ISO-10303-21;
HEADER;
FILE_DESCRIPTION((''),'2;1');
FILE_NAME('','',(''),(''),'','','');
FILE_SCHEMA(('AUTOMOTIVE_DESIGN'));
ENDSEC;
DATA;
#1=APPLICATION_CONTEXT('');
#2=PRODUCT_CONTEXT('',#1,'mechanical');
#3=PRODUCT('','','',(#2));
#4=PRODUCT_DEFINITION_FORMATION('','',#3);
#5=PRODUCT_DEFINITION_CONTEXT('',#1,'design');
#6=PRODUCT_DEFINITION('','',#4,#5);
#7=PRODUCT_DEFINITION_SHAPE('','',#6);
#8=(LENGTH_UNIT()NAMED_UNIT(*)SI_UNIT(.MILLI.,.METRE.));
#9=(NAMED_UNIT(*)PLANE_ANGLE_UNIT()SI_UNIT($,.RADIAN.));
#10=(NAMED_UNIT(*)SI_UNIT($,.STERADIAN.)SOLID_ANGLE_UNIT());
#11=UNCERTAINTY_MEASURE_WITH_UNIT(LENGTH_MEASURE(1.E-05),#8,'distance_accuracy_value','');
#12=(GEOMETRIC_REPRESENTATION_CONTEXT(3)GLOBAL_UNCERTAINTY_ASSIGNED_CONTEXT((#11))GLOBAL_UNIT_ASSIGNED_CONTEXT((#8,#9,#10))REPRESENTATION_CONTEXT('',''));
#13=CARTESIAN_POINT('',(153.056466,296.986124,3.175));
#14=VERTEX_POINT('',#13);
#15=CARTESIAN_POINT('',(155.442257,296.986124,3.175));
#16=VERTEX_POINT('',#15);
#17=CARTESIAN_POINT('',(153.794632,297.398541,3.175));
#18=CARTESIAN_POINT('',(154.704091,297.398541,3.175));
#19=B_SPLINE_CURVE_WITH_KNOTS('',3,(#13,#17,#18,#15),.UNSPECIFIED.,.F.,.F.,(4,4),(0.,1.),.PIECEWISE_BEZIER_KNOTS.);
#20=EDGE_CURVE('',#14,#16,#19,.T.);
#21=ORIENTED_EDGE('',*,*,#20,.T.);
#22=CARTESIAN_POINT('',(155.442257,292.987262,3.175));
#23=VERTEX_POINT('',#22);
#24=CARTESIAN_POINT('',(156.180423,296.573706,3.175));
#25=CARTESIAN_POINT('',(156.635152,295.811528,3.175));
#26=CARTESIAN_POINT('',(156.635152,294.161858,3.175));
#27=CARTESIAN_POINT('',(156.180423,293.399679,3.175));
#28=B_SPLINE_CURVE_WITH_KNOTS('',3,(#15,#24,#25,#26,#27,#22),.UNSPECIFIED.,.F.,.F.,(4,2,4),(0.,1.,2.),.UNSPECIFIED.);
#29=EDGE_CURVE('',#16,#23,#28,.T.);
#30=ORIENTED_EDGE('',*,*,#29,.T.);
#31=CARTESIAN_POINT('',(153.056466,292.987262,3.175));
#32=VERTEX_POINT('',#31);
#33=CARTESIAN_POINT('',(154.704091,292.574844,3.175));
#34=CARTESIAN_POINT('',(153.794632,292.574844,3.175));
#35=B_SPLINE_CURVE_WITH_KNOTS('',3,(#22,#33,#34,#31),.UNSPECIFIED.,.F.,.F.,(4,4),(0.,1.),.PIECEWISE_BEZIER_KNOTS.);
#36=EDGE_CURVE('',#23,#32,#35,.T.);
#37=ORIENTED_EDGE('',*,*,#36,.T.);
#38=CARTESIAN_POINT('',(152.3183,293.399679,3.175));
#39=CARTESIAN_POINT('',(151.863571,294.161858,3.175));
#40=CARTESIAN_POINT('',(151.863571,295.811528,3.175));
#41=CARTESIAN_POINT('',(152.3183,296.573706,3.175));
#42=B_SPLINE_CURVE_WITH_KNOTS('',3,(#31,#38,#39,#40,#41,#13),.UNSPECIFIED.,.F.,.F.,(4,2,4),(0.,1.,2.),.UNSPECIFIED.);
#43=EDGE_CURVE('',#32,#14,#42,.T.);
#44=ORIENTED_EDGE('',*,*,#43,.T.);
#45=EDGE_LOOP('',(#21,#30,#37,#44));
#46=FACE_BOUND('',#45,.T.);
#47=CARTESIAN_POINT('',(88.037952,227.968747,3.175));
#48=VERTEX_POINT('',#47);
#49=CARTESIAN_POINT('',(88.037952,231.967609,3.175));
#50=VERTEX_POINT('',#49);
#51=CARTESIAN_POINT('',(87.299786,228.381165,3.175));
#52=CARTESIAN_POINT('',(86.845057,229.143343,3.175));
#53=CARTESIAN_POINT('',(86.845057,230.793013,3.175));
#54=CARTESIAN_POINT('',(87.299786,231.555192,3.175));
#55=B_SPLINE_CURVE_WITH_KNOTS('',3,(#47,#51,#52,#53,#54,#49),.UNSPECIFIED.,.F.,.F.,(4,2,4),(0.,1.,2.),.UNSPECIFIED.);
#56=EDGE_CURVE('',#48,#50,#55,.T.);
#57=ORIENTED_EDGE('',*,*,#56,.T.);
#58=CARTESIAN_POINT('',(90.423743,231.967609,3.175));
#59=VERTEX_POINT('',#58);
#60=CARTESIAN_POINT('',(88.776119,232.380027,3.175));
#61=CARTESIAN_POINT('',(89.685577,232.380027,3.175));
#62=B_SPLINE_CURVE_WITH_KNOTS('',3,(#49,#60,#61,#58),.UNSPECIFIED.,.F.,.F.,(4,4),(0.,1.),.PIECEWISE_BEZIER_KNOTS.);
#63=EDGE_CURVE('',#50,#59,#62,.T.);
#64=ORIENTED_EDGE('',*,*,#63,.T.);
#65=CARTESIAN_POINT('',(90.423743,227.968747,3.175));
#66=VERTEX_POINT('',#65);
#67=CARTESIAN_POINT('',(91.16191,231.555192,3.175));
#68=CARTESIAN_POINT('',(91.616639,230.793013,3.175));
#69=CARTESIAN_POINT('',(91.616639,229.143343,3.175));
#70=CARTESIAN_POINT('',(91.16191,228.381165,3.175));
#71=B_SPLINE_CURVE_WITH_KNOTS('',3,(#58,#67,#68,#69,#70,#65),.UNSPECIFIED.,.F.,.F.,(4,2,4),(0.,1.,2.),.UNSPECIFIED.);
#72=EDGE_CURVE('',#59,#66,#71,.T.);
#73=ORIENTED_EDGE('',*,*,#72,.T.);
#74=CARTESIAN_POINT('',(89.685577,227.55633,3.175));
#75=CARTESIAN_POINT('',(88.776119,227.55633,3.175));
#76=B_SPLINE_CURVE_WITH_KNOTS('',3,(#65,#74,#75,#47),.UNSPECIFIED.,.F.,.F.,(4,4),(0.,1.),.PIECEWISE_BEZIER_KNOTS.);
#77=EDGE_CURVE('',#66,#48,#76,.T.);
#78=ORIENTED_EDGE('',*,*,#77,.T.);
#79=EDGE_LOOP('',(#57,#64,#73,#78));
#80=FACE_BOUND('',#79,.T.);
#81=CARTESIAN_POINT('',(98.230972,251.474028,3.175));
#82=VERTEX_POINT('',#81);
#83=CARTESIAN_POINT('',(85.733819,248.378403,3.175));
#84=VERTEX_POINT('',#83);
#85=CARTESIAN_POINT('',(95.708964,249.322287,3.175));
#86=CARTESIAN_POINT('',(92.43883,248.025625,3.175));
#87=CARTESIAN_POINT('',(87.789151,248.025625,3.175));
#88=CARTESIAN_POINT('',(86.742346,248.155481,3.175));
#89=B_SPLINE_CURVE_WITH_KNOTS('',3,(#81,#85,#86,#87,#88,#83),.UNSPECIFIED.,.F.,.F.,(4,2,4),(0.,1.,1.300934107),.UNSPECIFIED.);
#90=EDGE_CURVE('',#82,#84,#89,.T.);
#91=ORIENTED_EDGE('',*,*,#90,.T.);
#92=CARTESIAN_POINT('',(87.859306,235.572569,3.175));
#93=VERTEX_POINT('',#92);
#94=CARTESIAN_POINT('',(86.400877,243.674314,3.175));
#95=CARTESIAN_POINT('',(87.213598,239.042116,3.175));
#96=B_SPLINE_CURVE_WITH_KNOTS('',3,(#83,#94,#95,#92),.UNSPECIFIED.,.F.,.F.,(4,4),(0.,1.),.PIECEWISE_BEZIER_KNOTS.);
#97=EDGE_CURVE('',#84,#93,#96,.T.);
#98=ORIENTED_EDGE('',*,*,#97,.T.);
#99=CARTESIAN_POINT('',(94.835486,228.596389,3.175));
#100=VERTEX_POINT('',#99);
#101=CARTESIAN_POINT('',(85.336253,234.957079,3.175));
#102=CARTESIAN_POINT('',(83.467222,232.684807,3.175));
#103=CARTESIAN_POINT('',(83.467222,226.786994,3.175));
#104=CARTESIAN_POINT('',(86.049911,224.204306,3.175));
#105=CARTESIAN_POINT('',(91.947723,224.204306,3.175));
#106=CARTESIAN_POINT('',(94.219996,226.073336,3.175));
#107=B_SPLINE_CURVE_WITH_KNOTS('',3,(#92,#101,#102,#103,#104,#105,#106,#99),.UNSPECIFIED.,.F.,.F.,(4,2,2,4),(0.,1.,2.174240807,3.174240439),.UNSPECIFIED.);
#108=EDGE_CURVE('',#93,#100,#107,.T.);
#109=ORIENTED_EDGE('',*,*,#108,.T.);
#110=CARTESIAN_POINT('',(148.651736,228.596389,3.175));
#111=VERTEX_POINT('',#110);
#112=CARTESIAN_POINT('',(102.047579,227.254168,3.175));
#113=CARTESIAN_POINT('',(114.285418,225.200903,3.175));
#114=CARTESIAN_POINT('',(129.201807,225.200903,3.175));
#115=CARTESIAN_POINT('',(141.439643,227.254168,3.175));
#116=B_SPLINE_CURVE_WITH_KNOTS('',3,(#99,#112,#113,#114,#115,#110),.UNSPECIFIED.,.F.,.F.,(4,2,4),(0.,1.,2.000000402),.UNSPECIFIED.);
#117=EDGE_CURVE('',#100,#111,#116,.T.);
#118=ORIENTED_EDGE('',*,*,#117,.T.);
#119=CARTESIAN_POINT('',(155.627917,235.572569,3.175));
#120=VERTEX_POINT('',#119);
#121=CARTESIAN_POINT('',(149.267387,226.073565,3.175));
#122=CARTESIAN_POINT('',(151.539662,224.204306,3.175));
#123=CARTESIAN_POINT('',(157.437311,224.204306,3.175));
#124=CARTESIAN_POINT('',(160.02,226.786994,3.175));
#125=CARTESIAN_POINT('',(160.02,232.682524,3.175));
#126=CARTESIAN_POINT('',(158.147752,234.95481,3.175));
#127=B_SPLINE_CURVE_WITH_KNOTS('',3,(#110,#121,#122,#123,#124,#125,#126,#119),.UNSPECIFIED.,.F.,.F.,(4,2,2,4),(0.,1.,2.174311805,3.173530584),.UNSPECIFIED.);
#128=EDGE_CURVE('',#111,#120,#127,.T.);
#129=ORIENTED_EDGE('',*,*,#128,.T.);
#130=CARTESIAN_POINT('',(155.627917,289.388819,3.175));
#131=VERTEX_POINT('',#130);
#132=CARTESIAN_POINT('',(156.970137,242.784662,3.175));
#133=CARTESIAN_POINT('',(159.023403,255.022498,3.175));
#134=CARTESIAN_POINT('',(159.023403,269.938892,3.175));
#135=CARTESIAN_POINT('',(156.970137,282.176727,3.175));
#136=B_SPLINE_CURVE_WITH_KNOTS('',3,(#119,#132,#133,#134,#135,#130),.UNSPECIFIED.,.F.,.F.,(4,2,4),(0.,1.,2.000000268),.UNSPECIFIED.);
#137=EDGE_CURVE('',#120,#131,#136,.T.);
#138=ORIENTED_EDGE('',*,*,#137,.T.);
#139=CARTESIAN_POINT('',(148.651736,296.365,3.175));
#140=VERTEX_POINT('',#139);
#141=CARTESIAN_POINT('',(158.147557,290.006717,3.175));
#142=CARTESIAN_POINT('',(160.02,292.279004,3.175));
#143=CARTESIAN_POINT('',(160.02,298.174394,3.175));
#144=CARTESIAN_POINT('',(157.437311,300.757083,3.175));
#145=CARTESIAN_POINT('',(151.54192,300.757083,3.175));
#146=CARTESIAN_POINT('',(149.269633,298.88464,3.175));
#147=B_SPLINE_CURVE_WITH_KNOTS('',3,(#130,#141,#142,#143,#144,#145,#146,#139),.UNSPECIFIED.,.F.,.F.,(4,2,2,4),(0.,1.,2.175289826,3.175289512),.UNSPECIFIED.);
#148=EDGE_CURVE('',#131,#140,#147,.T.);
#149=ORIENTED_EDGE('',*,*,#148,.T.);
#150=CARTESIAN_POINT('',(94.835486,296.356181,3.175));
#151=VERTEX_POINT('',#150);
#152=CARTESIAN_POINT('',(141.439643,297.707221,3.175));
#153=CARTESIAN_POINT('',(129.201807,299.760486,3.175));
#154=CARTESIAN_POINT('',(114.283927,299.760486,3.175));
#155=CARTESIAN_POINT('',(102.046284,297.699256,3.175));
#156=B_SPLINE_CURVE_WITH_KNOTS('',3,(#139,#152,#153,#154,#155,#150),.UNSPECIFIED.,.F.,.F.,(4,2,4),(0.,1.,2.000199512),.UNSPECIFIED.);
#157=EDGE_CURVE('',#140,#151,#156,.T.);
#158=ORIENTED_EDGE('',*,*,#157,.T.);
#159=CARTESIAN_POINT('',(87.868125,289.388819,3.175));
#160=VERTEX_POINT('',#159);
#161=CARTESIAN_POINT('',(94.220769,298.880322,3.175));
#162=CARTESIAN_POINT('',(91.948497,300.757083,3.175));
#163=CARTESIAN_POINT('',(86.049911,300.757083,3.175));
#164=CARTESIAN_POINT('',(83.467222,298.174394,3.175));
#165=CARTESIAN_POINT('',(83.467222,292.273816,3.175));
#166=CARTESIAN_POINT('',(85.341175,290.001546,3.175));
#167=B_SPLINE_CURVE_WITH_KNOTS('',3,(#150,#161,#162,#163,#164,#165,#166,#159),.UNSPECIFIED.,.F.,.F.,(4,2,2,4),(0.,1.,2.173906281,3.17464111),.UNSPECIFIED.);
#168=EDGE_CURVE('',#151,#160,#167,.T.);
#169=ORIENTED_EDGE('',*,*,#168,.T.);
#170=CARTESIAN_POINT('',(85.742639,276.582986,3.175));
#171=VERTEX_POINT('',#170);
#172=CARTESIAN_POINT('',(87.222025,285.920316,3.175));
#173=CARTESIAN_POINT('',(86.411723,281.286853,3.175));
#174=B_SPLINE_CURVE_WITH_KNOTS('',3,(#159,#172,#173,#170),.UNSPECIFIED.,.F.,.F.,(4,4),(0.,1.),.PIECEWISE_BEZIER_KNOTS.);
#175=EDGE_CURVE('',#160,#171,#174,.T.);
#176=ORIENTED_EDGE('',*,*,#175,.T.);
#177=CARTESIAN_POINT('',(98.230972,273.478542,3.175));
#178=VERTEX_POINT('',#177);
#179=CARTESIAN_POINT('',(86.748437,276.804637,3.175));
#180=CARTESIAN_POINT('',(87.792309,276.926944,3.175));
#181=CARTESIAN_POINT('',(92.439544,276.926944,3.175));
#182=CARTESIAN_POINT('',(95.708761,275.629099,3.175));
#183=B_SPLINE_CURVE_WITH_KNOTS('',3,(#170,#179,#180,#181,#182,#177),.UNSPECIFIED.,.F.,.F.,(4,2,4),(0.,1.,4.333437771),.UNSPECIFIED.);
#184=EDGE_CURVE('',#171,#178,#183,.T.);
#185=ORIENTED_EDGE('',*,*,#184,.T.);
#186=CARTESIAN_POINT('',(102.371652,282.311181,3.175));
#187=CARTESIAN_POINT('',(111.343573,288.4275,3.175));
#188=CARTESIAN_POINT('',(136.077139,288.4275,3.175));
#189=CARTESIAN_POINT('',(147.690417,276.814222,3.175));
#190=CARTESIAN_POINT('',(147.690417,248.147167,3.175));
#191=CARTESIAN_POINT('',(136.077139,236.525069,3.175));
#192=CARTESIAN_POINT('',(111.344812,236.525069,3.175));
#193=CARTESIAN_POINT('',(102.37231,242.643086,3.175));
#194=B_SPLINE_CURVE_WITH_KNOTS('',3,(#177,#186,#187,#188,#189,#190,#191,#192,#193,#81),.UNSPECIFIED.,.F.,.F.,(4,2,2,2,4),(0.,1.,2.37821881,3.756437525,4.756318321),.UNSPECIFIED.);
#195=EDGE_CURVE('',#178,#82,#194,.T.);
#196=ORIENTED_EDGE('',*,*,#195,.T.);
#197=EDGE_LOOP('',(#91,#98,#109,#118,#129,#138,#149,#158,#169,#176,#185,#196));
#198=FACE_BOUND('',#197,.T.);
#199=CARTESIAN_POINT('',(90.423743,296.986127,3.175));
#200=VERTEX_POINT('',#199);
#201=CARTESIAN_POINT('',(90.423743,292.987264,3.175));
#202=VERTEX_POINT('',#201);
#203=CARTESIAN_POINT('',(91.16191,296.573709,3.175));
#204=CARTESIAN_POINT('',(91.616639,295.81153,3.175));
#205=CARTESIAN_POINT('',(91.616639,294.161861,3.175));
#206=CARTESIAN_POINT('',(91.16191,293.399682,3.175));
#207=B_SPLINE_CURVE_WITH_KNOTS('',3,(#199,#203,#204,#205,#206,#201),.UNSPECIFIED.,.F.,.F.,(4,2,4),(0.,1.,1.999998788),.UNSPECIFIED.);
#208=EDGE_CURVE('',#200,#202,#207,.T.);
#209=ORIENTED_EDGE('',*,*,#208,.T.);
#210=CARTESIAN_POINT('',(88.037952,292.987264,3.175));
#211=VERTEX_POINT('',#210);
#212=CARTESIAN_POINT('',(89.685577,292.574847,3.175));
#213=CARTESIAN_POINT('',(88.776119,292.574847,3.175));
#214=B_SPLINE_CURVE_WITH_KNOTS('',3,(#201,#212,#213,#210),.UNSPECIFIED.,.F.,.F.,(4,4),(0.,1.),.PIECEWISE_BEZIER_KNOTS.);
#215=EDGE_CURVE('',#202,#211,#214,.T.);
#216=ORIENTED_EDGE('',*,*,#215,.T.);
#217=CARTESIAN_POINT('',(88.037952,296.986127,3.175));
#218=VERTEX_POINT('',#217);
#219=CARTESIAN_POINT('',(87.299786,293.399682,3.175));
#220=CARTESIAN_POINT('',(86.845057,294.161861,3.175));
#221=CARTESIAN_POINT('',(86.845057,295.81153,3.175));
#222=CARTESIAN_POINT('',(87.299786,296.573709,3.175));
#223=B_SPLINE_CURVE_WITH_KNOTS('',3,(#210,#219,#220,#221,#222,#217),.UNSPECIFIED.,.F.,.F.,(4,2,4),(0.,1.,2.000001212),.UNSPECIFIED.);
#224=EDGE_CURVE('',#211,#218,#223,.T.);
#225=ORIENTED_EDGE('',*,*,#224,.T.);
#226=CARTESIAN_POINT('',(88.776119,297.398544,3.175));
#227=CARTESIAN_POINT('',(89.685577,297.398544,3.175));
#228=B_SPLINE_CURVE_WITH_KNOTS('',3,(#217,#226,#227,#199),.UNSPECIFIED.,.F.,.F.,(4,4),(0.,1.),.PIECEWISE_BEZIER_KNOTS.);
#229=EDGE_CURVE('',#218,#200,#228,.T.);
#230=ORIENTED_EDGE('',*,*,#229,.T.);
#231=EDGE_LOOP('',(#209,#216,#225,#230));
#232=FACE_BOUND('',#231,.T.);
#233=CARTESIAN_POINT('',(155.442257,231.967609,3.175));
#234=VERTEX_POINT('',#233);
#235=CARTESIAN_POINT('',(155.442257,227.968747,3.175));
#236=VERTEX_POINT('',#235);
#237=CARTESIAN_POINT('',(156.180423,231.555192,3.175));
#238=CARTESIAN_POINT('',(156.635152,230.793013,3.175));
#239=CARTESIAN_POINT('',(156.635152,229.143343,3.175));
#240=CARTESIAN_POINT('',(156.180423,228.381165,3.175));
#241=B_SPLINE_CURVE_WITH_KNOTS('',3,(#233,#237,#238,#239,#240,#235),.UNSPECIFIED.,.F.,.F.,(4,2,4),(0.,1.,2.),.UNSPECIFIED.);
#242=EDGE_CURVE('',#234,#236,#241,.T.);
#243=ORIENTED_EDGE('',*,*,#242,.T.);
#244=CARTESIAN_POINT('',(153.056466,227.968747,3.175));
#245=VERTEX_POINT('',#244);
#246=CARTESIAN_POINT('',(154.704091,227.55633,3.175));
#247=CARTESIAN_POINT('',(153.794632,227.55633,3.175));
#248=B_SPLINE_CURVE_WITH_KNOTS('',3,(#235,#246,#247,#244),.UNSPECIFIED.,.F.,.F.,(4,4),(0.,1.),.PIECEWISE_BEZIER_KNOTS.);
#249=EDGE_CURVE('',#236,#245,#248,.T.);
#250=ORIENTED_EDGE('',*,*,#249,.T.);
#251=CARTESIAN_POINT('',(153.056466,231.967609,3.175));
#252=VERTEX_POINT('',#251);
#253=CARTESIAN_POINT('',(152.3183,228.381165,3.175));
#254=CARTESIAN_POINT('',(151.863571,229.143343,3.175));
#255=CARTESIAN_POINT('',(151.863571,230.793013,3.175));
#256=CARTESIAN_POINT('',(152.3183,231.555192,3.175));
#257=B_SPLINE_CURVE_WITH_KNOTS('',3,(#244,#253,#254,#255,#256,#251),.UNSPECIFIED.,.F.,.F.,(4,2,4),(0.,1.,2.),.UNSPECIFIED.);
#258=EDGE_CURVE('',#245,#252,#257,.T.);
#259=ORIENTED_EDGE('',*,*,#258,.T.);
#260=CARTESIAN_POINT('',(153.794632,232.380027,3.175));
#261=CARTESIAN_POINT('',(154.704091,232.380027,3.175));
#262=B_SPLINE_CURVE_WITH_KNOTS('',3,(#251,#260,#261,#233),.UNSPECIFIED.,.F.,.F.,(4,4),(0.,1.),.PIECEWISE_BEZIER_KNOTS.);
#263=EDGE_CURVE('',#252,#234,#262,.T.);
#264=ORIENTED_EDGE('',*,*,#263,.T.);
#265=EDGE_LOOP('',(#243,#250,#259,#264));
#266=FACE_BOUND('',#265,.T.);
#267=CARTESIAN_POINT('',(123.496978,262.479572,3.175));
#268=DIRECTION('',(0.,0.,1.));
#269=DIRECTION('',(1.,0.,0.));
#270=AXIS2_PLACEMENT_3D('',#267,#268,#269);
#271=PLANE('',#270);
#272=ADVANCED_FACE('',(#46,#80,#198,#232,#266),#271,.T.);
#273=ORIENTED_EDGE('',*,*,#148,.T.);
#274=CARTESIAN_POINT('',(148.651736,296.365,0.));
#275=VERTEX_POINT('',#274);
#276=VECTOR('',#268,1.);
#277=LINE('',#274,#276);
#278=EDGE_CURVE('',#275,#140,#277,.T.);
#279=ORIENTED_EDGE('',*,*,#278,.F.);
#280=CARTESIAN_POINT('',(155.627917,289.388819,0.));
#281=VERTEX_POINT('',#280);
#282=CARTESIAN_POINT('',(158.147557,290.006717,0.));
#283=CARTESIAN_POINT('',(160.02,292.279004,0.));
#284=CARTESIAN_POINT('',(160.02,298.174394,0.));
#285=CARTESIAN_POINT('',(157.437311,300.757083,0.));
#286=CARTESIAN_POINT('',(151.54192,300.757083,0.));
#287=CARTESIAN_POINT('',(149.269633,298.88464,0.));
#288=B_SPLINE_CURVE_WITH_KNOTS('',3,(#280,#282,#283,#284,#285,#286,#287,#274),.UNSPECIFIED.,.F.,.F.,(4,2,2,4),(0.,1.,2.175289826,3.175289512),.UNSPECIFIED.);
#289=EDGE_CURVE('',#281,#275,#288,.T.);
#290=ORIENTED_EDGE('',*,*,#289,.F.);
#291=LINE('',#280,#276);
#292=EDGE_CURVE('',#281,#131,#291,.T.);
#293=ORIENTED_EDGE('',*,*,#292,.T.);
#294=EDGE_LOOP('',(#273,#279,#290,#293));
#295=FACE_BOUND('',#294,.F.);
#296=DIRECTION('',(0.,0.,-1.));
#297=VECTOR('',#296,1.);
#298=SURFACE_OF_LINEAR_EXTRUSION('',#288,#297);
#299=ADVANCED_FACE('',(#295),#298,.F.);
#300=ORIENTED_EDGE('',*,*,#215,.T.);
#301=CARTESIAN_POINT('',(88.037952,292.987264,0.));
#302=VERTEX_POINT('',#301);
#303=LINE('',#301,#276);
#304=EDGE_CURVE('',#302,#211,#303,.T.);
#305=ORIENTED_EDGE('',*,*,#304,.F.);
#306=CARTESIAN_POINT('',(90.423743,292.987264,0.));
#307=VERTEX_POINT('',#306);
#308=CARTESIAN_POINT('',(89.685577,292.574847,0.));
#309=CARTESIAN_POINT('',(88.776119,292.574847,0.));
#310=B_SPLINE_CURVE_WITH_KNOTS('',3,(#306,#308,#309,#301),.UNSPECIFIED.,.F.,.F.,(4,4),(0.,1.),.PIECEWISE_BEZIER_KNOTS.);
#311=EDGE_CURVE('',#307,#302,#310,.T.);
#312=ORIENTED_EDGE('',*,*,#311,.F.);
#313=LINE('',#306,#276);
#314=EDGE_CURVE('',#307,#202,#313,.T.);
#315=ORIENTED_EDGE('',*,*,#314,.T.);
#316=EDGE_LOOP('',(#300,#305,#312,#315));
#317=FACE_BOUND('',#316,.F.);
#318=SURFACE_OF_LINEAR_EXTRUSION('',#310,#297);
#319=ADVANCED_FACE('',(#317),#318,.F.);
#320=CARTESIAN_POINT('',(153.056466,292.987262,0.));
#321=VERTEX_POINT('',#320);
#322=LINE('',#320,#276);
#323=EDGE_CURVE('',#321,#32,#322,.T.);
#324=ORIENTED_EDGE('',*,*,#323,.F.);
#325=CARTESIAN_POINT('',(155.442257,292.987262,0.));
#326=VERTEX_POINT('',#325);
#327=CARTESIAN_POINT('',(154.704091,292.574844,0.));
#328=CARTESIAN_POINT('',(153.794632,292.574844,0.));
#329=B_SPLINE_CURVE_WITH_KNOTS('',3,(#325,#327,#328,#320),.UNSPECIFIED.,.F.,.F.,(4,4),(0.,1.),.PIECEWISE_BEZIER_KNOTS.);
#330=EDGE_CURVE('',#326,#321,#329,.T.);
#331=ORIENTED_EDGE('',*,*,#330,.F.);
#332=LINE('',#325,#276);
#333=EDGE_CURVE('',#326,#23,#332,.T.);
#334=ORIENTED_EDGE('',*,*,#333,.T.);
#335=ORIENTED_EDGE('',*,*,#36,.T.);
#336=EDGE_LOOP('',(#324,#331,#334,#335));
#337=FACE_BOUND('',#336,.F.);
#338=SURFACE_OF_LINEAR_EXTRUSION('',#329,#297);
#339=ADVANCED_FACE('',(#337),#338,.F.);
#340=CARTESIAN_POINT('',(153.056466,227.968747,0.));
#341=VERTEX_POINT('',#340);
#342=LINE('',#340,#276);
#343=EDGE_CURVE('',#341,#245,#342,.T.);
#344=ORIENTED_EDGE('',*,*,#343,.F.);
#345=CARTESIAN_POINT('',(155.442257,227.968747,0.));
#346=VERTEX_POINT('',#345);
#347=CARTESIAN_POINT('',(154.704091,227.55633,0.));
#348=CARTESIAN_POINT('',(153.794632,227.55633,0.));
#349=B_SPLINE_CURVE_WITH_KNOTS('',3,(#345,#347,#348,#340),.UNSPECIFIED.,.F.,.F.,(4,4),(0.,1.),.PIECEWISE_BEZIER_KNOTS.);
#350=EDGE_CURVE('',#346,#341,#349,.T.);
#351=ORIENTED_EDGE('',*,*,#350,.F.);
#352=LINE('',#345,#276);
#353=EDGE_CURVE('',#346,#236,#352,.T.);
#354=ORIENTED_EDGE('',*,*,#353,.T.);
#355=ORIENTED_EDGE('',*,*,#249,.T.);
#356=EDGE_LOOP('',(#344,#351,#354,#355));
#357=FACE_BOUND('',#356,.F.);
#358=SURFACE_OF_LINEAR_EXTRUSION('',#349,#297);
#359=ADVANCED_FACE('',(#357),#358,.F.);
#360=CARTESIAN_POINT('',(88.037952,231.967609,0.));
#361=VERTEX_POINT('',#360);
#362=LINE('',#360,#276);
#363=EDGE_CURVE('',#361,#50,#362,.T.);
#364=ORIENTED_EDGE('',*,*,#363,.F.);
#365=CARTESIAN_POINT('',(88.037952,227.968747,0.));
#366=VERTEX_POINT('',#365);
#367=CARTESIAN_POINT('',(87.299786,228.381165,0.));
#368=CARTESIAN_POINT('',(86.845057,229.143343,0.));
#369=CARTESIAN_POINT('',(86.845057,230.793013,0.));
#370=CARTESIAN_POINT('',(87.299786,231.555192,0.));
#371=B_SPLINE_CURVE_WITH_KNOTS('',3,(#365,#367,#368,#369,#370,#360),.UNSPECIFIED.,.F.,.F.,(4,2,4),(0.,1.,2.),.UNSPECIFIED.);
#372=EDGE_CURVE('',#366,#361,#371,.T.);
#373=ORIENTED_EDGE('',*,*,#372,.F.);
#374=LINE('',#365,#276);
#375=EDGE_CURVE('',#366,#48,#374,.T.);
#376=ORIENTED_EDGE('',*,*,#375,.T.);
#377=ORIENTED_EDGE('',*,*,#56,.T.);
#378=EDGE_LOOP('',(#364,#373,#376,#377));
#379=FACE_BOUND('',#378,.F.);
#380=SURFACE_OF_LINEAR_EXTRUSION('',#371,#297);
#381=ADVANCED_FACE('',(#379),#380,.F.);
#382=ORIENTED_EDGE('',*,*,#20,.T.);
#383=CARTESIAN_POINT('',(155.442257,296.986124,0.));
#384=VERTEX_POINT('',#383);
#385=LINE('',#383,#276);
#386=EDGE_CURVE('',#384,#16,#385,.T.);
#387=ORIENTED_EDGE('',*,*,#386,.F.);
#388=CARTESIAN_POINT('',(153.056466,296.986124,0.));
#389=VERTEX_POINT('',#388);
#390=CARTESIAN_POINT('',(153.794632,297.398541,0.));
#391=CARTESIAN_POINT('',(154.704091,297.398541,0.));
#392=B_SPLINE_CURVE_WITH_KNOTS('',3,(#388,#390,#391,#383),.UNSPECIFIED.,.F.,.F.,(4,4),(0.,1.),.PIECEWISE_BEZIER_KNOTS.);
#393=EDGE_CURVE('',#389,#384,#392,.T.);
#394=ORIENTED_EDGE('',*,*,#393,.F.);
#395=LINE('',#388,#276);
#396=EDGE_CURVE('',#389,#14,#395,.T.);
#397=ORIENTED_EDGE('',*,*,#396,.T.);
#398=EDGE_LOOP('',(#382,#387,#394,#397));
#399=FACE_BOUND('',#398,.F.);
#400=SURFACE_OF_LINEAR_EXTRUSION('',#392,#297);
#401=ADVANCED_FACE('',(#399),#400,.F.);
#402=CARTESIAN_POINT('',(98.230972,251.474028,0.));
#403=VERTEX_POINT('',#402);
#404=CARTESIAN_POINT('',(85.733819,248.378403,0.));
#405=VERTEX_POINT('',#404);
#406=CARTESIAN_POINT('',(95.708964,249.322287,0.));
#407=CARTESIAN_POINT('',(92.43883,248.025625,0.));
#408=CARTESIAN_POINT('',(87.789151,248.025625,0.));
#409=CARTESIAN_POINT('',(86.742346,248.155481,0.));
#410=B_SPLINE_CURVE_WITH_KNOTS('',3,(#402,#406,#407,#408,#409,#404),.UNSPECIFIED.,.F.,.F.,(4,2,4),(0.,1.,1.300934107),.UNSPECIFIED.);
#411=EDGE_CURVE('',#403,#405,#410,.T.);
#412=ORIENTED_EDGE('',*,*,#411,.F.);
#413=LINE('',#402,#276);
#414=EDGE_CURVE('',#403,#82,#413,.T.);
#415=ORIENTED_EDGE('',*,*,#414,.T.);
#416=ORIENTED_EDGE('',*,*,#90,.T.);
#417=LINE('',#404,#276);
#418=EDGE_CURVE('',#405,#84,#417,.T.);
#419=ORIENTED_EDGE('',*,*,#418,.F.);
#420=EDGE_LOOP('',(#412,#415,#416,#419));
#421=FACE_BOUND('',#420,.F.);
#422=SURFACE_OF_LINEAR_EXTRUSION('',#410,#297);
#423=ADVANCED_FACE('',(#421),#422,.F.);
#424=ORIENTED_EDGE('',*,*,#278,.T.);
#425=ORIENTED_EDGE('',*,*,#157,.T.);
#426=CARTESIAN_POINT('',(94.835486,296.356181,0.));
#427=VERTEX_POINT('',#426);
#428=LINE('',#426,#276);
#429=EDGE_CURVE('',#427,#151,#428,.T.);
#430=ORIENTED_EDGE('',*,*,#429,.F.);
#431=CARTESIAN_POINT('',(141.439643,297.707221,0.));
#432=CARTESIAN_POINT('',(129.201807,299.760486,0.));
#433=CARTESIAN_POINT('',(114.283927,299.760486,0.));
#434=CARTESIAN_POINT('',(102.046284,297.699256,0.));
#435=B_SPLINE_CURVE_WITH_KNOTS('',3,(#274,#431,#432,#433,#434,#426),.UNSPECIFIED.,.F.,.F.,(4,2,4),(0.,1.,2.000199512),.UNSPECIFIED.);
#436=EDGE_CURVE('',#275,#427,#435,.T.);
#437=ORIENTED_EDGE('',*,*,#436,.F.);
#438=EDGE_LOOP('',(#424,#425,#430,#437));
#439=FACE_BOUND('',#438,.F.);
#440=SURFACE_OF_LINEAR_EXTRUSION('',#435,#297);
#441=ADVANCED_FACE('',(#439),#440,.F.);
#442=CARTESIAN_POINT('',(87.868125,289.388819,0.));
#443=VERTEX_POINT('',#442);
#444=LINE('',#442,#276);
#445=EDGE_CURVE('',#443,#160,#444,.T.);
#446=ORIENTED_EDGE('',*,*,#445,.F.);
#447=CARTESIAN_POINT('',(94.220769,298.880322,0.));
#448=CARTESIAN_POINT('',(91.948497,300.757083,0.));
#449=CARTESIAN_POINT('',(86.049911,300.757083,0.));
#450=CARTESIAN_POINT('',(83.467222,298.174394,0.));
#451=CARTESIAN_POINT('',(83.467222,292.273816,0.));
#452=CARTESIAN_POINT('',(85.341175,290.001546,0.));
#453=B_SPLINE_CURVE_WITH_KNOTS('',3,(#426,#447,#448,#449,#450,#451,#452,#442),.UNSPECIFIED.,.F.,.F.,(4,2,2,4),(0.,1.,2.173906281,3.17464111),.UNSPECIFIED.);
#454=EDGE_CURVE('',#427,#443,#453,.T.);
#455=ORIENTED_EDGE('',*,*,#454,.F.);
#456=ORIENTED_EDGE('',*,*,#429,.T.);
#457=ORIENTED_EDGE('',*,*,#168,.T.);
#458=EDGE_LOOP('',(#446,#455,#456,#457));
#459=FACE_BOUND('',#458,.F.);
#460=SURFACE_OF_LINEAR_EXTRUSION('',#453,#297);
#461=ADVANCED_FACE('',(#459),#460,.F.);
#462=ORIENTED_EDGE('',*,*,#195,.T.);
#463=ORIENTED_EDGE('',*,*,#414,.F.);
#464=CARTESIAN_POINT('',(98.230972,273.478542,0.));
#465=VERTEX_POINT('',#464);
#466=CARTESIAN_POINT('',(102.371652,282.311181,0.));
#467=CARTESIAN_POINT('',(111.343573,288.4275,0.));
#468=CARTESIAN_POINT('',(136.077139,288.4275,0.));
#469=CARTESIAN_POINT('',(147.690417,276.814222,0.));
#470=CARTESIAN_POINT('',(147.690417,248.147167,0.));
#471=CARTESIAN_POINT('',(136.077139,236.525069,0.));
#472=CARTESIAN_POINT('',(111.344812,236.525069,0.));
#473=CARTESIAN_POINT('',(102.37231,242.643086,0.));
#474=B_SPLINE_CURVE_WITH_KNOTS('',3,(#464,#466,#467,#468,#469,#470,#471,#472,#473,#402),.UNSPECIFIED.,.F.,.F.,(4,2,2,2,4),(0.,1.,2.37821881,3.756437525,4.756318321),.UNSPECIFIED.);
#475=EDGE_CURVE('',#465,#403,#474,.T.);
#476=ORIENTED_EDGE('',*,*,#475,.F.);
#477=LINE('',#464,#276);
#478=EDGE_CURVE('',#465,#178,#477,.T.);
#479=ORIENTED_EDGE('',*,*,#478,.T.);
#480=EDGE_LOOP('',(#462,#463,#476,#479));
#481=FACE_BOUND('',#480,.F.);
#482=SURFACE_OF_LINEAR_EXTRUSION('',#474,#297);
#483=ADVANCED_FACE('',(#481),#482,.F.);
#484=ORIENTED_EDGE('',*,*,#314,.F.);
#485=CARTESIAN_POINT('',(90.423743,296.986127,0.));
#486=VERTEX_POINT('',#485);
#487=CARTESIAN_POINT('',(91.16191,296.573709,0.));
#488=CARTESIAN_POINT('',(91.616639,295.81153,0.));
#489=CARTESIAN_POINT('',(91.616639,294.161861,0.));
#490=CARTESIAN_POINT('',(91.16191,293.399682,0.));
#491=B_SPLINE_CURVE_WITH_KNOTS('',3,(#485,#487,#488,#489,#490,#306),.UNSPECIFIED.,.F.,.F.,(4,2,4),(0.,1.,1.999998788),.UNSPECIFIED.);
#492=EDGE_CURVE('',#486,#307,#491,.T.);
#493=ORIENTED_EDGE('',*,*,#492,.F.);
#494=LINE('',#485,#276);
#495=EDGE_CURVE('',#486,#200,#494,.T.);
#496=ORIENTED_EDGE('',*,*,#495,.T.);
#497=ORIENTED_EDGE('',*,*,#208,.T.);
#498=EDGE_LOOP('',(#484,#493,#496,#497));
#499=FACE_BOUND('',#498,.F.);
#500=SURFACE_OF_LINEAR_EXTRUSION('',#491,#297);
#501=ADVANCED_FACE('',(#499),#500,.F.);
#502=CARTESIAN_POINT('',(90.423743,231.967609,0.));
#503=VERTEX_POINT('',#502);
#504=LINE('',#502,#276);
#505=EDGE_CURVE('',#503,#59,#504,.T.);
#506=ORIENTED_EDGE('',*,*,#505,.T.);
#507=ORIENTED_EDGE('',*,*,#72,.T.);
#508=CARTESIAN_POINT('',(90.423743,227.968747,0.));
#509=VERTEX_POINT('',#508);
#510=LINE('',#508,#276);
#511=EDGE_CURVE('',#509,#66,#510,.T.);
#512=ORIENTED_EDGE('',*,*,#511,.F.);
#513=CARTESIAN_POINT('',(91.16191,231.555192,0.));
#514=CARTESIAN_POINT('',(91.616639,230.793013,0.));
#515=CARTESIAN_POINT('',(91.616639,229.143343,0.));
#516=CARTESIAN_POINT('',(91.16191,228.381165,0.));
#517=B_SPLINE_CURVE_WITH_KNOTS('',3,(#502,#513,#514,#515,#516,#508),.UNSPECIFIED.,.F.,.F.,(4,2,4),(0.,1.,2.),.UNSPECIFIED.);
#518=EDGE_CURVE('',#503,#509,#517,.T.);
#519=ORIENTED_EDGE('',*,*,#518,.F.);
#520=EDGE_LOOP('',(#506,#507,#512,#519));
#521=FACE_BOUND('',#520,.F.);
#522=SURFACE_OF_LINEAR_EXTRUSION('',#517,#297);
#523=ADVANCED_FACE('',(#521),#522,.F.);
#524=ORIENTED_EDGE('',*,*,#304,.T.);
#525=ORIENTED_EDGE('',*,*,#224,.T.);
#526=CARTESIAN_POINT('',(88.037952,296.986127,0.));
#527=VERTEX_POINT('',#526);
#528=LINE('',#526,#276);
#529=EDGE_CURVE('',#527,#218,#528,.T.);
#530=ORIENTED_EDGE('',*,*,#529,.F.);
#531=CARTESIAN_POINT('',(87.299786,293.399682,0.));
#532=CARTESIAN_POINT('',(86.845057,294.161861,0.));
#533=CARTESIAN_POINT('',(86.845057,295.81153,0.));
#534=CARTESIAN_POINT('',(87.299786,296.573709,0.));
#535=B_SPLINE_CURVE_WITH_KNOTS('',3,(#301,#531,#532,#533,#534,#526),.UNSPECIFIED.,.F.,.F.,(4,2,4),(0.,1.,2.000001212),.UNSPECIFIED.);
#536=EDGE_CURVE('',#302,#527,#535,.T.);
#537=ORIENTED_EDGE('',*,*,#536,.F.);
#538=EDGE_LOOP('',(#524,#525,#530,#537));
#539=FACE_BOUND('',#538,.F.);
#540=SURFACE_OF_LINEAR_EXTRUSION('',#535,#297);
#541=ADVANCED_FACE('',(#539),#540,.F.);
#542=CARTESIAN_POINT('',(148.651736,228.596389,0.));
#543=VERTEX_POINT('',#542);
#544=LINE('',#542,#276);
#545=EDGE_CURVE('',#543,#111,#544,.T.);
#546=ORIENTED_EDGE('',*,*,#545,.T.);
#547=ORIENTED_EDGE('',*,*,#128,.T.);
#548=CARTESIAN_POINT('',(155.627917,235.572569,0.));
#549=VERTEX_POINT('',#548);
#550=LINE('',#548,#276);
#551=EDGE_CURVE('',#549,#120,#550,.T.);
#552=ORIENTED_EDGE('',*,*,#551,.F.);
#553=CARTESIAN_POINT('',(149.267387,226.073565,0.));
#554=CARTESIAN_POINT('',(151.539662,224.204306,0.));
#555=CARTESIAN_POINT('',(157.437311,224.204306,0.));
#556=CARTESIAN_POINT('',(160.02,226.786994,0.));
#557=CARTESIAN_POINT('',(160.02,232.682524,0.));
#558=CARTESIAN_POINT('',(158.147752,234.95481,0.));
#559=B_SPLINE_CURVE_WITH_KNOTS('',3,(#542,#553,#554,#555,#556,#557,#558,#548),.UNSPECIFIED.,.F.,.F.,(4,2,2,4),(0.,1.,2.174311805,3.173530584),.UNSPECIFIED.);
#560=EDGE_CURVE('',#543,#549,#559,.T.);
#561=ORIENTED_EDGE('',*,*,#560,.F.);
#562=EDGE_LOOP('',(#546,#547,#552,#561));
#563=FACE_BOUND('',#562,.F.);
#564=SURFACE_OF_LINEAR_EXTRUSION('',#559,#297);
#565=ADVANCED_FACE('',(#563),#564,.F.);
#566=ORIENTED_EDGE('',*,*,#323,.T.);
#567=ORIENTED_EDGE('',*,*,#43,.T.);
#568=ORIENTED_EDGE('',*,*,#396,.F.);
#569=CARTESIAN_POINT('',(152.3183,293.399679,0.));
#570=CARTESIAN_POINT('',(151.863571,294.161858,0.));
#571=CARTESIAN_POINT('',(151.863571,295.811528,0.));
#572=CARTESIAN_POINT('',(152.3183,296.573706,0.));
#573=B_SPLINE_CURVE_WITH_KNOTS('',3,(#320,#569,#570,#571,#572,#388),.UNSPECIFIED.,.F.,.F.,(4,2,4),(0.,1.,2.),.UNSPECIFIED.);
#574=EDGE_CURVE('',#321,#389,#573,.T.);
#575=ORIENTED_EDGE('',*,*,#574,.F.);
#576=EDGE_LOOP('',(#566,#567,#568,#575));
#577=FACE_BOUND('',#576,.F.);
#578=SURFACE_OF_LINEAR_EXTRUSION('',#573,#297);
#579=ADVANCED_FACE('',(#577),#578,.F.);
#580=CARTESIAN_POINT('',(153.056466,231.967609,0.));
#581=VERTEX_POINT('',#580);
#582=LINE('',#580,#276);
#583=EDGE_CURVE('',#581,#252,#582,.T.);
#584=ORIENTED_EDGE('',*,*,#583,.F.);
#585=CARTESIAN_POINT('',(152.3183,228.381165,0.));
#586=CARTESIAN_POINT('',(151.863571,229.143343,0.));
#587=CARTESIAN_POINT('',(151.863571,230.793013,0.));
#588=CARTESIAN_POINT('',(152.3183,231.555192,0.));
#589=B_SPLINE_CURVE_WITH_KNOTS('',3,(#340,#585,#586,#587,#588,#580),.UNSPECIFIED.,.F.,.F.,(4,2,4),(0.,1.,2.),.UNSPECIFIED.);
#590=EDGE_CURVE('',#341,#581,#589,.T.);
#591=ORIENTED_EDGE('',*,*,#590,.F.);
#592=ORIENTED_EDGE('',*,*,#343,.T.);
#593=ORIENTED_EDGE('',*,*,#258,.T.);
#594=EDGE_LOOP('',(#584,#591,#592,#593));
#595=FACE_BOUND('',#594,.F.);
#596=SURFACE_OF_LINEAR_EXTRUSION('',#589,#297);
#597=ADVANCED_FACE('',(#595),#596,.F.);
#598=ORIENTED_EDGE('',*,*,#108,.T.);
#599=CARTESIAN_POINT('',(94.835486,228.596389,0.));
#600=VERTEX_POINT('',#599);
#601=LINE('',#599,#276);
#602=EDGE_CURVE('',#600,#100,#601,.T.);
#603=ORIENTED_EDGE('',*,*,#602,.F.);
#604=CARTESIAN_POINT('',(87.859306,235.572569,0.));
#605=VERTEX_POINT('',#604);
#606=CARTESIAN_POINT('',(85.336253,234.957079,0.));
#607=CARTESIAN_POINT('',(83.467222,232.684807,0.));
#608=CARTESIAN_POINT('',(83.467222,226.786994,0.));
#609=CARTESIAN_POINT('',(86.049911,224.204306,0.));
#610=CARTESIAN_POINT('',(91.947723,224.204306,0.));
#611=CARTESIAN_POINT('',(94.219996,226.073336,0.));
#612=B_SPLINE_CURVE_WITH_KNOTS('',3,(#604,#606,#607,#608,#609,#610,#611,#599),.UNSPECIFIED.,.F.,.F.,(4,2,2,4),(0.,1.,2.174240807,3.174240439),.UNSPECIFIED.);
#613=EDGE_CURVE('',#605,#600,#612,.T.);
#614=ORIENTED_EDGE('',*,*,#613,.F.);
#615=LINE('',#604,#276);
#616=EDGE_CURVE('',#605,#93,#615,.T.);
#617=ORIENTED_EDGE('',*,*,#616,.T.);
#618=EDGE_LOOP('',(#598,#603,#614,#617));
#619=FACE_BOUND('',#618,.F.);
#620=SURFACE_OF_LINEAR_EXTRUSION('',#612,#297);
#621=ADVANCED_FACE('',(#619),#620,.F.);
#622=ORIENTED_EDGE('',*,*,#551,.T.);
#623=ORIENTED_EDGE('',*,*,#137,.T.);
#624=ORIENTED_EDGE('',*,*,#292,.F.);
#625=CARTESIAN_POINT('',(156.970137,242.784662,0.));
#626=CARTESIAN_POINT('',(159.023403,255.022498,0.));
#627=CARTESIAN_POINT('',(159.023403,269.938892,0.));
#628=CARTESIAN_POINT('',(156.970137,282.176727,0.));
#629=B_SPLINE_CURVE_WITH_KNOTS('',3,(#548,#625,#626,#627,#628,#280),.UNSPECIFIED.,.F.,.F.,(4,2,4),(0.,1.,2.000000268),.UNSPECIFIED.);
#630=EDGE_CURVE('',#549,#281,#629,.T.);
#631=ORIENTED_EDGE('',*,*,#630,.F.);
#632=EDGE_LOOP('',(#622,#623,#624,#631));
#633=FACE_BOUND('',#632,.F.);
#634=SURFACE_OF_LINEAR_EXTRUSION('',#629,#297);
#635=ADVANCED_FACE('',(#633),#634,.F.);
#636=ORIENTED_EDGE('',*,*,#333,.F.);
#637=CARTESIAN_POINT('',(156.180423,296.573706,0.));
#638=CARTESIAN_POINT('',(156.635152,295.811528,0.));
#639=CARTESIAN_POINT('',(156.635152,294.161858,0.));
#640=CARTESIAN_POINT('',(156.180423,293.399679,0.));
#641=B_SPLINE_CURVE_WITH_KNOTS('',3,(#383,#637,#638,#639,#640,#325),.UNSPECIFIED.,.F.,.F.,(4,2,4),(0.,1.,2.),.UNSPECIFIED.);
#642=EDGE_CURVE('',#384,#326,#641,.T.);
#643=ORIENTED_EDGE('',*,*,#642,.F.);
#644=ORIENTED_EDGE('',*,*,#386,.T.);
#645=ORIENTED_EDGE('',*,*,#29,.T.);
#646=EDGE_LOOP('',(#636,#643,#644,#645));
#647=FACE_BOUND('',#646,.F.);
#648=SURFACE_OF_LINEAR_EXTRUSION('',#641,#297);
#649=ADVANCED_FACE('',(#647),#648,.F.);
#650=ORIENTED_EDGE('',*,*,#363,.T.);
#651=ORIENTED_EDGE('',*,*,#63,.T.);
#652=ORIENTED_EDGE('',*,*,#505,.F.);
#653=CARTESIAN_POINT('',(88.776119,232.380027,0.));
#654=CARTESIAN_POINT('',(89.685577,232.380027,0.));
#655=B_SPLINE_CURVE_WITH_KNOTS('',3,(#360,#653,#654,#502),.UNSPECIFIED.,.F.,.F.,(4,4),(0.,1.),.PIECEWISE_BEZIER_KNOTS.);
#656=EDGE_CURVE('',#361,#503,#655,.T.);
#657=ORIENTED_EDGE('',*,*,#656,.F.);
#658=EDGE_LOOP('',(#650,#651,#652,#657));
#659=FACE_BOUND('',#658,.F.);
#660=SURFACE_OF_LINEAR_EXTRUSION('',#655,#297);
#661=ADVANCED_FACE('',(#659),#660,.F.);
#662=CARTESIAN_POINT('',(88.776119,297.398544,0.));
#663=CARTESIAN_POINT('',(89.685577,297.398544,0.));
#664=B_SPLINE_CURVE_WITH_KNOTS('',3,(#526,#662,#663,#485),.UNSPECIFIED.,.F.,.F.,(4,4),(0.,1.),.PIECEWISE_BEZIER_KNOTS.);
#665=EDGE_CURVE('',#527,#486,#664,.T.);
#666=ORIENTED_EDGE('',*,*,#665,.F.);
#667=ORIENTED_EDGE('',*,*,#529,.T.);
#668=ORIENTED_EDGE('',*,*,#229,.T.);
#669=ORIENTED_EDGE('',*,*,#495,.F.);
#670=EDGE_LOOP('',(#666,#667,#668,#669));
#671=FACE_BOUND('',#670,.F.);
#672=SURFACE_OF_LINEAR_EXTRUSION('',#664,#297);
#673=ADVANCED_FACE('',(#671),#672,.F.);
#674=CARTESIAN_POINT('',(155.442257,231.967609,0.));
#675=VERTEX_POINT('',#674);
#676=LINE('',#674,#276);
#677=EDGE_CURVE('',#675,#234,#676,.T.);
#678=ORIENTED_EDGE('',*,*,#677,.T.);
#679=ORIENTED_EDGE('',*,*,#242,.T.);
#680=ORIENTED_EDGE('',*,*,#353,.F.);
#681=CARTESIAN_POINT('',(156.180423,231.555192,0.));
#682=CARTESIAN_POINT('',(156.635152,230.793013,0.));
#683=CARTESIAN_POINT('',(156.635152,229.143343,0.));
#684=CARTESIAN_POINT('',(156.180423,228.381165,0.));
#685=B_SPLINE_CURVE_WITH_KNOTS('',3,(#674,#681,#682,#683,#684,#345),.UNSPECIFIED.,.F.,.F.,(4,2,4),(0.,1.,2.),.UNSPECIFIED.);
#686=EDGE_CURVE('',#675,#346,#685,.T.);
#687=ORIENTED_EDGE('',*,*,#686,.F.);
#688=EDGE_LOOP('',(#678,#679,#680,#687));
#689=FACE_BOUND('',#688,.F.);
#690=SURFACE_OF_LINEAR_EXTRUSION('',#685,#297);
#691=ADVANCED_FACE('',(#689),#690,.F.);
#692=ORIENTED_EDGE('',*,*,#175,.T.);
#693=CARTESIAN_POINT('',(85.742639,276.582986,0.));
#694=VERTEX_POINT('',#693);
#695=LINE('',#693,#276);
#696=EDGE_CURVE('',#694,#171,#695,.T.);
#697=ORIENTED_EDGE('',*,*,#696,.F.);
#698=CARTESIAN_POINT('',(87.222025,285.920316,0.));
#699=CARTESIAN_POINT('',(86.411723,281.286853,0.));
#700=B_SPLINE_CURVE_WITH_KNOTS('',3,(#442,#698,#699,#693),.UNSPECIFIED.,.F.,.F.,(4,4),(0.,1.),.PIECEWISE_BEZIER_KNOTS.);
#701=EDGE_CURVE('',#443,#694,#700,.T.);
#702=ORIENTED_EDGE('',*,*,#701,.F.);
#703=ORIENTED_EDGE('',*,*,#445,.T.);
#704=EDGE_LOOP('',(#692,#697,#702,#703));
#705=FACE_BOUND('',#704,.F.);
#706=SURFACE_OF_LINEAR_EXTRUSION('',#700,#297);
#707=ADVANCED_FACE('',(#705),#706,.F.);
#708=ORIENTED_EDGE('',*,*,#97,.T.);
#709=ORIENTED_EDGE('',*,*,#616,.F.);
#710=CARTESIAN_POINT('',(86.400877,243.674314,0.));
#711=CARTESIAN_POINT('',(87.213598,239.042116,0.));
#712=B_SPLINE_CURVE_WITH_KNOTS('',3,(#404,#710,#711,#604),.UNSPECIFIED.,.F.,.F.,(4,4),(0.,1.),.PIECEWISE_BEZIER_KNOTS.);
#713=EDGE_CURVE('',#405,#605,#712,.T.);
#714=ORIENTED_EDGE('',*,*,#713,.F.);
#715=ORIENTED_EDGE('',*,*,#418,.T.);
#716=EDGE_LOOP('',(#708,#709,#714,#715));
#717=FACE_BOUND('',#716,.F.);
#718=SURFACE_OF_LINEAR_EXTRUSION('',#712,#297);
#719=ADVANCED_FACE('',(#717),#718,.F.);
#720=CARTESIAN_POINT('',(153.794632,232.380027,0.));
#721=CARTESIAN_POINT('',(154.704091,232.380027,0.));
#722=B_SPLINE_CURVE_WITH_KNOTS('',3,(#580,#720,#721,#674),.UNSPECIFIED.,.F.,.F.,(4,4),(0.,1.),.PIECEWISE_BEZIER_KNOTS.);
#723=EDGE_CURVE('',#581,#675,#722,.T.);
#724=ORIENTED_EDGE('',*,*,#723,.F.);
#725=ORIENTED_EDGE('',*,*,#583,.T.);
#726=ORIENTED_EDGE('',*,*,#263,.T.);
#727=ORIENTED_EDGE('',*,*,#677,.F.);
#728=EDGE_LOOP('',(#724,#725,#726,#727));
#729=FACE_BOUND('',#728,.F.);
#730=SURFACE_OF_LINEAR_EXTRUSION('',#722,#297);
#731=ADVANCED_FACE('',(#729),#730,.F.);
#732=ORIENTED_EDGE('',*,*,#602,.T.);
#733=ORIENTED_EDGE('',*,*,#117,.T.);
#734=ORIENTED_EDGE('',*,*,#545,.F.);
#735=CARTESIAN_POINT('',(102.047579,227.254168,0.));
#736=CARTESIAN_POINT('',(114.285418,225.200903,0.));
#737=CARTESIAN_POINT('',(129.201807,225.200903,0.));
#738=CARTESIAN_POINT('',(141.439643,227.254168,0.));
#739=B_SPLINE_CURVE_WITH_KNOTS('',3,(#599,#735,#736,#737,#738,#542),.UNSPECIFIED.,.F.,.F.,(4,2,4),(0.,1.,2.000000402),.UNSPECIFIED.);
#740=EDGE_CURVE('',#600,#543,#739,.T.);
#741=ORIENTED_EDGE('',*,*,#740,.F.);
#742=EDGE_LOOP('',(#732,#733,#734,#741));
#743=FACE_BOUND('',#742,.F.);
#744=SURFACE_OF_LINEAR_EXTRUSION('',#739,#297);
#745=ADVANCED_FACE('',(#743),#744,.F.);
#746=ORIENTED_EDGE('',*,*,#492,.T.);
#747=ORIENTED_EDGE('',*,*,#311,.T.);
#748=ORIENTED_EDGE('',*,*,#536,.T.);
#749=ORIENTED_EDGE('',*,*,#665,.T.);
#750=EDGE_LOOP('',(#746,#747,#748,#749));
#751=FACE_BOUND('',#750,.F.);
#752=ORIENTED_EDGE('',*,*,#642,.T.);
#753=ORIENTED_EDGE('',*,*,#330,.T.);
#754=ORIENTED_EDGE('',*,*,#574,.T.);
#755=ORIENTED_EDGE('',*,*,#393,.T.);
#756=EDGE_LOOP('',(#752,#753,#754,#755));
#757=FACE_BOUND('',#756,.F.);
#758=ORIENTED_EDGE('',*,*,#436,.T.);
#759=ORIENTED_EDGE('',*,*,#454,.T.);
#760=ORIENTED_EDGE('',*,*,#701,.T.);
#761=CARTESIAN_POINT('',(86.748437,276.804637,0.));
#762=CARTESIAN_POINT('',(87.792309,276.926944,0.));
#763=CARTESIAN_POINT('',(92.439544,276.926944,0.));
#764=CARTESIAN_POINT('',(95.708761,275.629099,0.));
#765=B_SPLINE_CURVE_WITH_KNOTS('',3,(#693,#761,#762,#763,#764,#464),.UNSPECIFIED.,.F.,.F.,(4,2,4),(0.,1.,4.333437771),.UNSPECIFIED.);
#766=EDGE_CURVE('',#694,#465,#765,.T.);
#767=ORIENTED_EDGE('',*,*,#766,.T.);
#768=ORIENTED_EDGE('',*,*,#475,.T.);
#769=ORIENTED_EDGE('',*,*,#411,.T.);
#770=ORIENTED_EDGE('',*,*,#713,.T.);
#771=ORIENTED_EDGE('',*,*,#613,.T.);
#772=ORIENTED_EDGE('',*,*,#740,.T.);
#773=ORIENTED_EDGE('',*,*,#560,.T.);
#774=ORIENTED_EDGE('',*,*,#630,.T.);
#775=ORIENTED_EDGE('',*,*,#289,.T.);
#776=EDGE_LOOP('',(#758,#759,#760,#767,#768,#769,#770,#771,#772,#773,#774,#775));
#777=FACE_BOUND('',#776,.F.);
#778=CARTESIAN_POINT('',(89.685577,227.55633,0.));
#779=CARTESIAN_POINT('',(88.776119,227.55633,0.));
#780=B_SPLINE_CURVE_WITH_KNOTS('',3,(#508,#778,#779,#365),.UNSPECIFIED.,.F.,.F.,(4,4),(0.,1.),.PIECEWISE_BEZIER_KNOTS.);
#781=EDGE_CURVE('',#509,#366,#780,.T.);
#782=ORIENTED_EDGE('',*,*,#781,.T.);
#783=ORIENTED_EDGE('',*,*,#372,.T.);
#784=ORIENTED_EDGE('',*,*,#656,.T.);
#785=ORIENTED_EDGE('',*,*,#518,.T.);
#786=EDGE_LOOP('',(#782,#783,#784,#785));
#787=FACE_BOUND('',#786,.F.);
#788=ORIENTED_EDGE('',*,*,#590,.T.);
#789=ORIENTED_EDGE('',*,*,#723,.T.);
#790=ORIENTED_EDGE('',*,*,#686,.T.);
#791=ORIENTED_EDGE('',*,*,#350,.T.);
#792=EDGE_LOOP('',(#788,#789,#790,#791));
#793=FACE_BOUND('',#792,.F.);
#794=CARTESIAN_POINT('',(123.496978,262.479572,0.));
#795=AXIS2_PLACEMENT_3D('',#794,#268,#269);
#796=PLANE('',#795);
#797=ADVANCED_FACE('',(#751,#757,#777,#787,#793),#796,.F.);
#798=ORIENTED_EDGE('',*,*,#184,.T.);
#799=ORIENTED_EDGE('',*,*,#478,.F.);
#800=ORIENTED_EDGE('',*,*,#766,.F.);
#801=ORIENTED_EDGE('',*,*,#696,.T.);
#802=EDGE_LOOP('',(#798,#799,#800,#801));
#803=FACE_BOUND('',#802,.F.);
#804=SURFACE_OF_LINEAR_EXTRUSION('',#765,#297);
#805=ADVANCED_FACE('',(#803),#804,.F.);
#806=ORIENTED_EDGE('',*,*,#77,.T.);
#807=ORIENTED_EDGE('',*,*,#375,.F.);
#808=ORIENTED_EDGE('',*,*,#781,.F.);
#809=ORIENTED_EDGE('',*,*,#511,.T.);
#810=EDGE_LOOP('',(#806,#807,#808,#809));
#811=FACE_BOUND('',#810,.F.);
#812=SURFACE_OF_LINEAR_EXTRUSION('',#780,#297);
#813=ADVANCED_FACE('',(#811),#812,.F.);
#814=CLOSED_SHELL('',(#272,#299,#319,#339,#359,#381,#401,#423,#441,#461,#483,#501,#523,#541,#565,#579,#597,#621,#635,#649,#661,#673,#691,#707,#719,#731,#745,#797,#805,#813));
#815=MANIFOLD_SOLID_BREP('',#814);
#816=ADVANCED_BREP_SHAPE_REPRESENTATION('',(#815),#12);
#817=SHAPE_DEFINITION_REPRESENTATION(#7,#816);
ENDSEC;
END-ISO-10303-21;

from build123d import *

# Parameters (mm, degrees)
BOSS_EXTRUDE1_DEPTH = 3.175


with BuildPart() as part:
    # Model → Boss-Extrude1 (new body)
    with BuildSketch(Plane.XY):
        with BuildLine():
            add(Edge.make_bspline(
                [(89.235139, 300.757083), (86.049911, 300.757083), (83.467222, 298.174394), (83.467222, 294.989167)],
                knots=[0, 0, 0, 0, 1, 1, 1, 1], degree=3))
            add(Edge.make_bspline(
                [(83.467222, 294.989167), (83.467222, 292.273816), (85.341175, 290.001546), (87.868125, 289.388819)],
                knots=[0, 0, 0, 0, 1, 1, 1, 1], degree=3))
            add(Edge.make_bspline(
                [(87.868125, 289.388819), (87.222025, 285.920316), (86.411723, 281.286853), (85.742639, 276.582986)],
                knots=[0, 0, 0, 0, 1, 1, 1, 1], degree=3))
            add(Edge.make_bspline(
                [(85.742639, 276.582986), (86.748437, 276.804637), (87.792309, 276.926944), (88.864722, 276.926944)],
                knots=[0, 0, 0, 0, 1, 1, 1, 1], degree=3))
            add(Edge.make_bspline(
                [(88.864722, 276.926944), (92.439544, 276.926944), (95.708761, 275.629099), (98.230972, 273.478542)],
                knots=[0, 0, 0, 0, 1, 1, 1, 1], degree=3))
            add(Edge.make_bspline(
                [(98.230972, 273.478542), (102.371652, 282.311181), (111.343573, 288.4275), (121.743611, 288.4275)],
                knots=[0, 0, 0, 0, 1, 1, 1, 1], degree=3))
            add(Edge.make_bspline(
                [(121.743611, 288.4275), (136.077139, 288.4275), (147.690417, 276.814222), (147.690417, 262.480694)],
                knots=[0, 0, 0, 0, 1, 1, 1, 1], degree=3))
            add(Edge.make_bspline(
                [(147.690417, 262.480694), (147.690417, 248.147167), (136.077139, 236.525069), (121.743611, 236.525069)],
                knots=[0, 0, 0, 0, 1, 1, 1, 1], degree=3))
            add(Edge.make_bspline(
                [(121.743611, 236.525069), (111.344812, 236.525069), (102.37231, 242.643086), (98.230972, 251.474028)],
                knots=[0, 0, 0, 0, 1, 1, 1, 1], degree=3))
            add(Edge.make_bspline(
                [(98.230972, 251.474028), (95.708964, 249.322287), (92.43883, 248.025625), (88.864722, 248.025625)],
                knots=[0, 0, 0, 0, 1, 1, 1, 1], degree=3))
            add(Edge.make_bspline(
                [(88.864722, 248.025625), (87.789151, 248.025625), (86.742346, 248.155481), (85.733819, 248.378403)],
                knots=[0, 0, 0, 0, 1, 1, 1, 1], degree=3))
            add(Edge.make_bspline(
                [(85.733819, 248.378403), (86.400877, 243.674314), (87.213598, 239.042116), (87.859306, 235.572569)],
                knots=[0, 0, 0, 0, 1, 1, 1, 1], degree=3))
            add(Edge.make_bspline(
                [(87.859306, 235.572569), (85.336253, 234.957079), (83.467222, 232.684807), (83.467222, 229.972222)],
                knots=[0, 0, 0, 0, 1, 1, 1, 1], degree=3))
            add(Edge.make_bspline(
                [(83.467222, 229.972222), (83.467222, 226.786994), (86.049911, 224.204306), (89.235139, 224.204306)],
                knots=[0, 0, 0, 0, 1, 1, 1, 1], degree=3))
            add(Edge.make_bspline(
                [(89.235139, 224.204306), (91.947723, 224.204306), (94.219996, 226.073336), (94.835486, 228.596389)],
                knots=[0, 0, 0, 0, 1, 1, 1, 1], degree=3))
            add(Edge.make_bspline(
                [(94.835486, 228.596389), (102.047579, 227.254168), (114.285418, 225.200903), (121.743611, 225.200903)],
                knots=[0, 0, 0, 0, 1, 1, 1, 1], degree=3))
            add(Edge.make_bspline(
                [(121.743611, 225.200903), (129.201807, 225.200903), (141.439643, 227.254168), (148.651736, 228.596389)],
                knots=[0, 0, 0, 0, 1, 1, 1, 1], degree=3))
            add(Edge.make_bspline(
                [(148.651736, 228.596389), (149.267387, 226.073565), (151.539662, 224.204306), (154.252083, 224.204306)],
                knots=[0, 0, 0, 0, 1, 1, 1, 1], degree=3))
            add(Edge.make_bspline(
                [(154.252083, 224.204306), (157.437311, 224.204306), (160.02, 226.786994), (160.02, 229.972222)],
                knots=[0, 0, 0, 0, 1, 1, 1, 1], degree=3))
            add(Edge.make_bspline(
                [(160.02, 229.972222), (160.02, 232.682524), (158.147752, 234.95481), (155.627917, 235.572569)],
                knots=[0, 0, 0, 0, 1, 1, 1, 1], degree=3))
            add(Edge.make_bspline(
                [(155.627917, 235.572569), (156.970137, 242.784662), (159.023403, 255.022498), (159.023403, 262.480694)],
                knots=[0, 0, 0, 0, 1, 1, 1, 1], degree=3))
            add(Edge.make_bspline(
                [(159.023403, 262.480694), (159.023403, 269.938892), (156.970137, 282.176727), (155.627917, 289.388819)],
                knots=[0, 0, 0, 0, 1, 1, 1, 1], degree=3))
            add(Edge.make_bspline(
                [(155.627917, 289.388819), (158.147557, 290.006717), (160.02, 292.279004), (160.02, 294.989167)],
                knots=[0, 0, 0, 0, 1, 1, 1, 1], degree=3))
            add(Edge.make_bspline(
                [(160.02, 294.989167), (160.02, 298.174394), (157.437311, 300.757083), (154.252083, 300.757083)],
                knots=[0, 0, 0, 0, 1, 1, 1, 1], degree=3))
            add(Edge.make_bspline(
                [(154.252083, 300.757083), (151.54192, 300.757083), (149.269633, 298.88464), (148.651736, 296.365)],
                knots=[0, 0, 0, 0, 1, 1, 1, 1], degree=3))
            add(Edge.make_bspline(
                [(148.651736, 296.365), (141.439643, 297.707221), (129.201807, 299.760486), (121.743611, 299.760486)],
                knots=[0, 0, 0, 0, 1, 1, 1, 1], degree=3))
            add(Edge.make_bspline(
                [(121.743611, 299.760486), (114.283927, 299.760486), (102.046284, 297.699256), (94.835486, 296.356181)],
                knots=[0, 0, 0, 0, 1, 1, 1, 1], degree=3))
            add(Edge.make_bspline(
                [(94.835486, 296.356181), (94.220769, 298.880322), (91.948497, 300.757083), (89.235139, 300.757083)],
                knots=[0, 0, 0, 0, 1, 1, 1, 1], degree=3))
        make_face()
        with BuildLine():
            add(Edge.make_bspline(
                [(91.616639, 294.986695), (91.616639, 294.161861), (91.16191, 293.399682), (90.423743, 292.987264)],
                knots=[0, 0, 0, 0, 1, 1, 1, 1], degree=3))
            add(Edge.make_bspline(
                [(90.423743, 292.987264), (89.685577, 292.574847), (88.776119, 292.574847), (88.037952, 292.987264)],
                knots=[0, 0, 0, 0, 1, 1, 1, 1], degree=3))
            add(Edge.make_bspline(
                [(88.037952, 292.987264), (87.299786, 293.399682), (86.845057, 294.161861), (86.845057, 294.986695)],
                knots=[0, 0, 0, 0, 1, 1, 1, 1], degree=3))
            add(Edge.make_bspline(
                [(86.845057, 294.986695), (86.845057, 295.81153), (87.299786, 296.573709), (88.037952, 296.986127)],
                knots=[0, 0, 0, 0, 1, 1, 1, 1], degree=3))
            add(Edge.make_bspline(
                [(88.037952, 296.986127), (88.776119, 297.398544), (89.685577, 297.398544), (90.423743, 296.986127)],
                knots=[0, 0, 0, 0, 1, 1, 1, 1], degree=3))
            add(Edge.make_bspline(
                [(90.423743, 296.986127), (91.16191, 296.573709), (91.616639, 295.81153), (91.616639, 294.986695)],
                knots=[0, 0, 0, 0, 1, 1, 1, 1], degree=3))
        make_face(mode=Mode.SUBTRACT)
        with BuildLine():
            add(Edge.make_bspline(
                [(156.635152, 229.968178), (156.635152, 229.143343), (156.180423, 228.381165), (155.442257, 227.968747)],
                knots=[0, 0, 0, 0, 1, 1, 1, 1], degree=3))
            add(Edge.make_bspline(
                [(155.442257, 227.968747), (154.704091, 227.55633), (153.794632, 227.55633), (153.056466, 227.968747)],
                knots=[0, 0, 0, 0, 1, 1, 1, 1], degree=3))
            add(Edge.make_bspline(
                [(153.056466, 227.968747), (152.3183, 228.381165), (151.863571, 229.143343), (151.863571, 229.968178)],
                knots=[0, 0, 0, 0, 1, 1, 1, 1], degree=3))
            add(Edge.make_bspline(
                [(151.863571, 229.968178), (151.863571, 230.793013), (152.3183, 231.555192), (153.056466, 231.967609)],
                knots=[0, 0, 0, 0, 1, 1, 1, 1], degree=3))
            add(Edge.make_bspline(
                [(153.056466, 231.967609), (153.794632, 232.380027), (154.704091, 232.380027), (155.442257, 231.967609)],
                knots=[0, 0, 0, 0, 1, 1, 1, 1], degree=3))
            add(Edge.make_bspline(
                [(155.442257, 231.967609), (156.180423, 231.555192), (156.635152, 230.793013), (156.635152, 229.968178)],
                knots=[0, 0, 0, 0, 1, 1, 1, 1], degree=3))
        make_face(mode=Mode.SUBTRACT)
        with BuildLine():
            add(Edge.make_bspline(
                [(91.616639, 229.968178), (91.616639, 229.143343), (91.16191, 228.381165), (90.423743, 227.968747)],
                knots=[0, 0, 0, 0, 1, 1, 1, 1], degree=3))
            add(Edge.make_bspline(
                [(90.423743, 227.968747), (89.685577, 227.55633), (88.776119, 227.55633), (88.037952, 227.968747)],
                knots=[0, 0, 0, 0, 1, 1, 1, 1], degree=3))
            add(Edge.make_bspline(
                [(88.037952, 227.968747), (87.299786, 228.381165), (86.845057, 229.143343), (86.845057, 229.968178)],
                knots=[0, 0, 0, 0, 1, 1, 1, 1], degree=3))
            add(Edge.make_bspline(
                [(86.845057, 229.968178), (86.845057, 230.793013), (87.299786, 231.555192), (88.037952, 231.967609)],
                knots=[0, 0, 0, 0, 1, 1, 1, 1], degree=3))
            add(Edge.make_bspline(
                [(88.037952, 231.967609), (88.776119, 232.380027), (89.685577, 232.380027), (90.423743, 231.967609)],
                knots=[0, 0, 0, 0, 1, 1, 1, 1], degree=3))
            add(Edge.make_bspline(
                [(90.423743, 231.967609), (91.16191, 231.555192), (91.616639, 230.793013), (91.616639, 229.968178)],
                knots=[0, 0, 0, 0, 1, 1, 1, 1], degree=3))
        make_face(mode=Mode.SUBTRACT)
        with BuildLine():
            add(Edge.make_bspline(
                [(156.635152, 294.986693), (156.635152, 294.161858), (156.180423, 293.399679), (155.442257, 292.987262)],
                knots=[0, 0, 0, 0, 1, 1, 1, 1], degree=3))
            add(Edge.make_bspline(
                [(155.442257, 292.987262), (154.704091, 292.574844), (153.794632, 292.574844), (153.056466, 292.987262)],
                knots=[0, 0, 0, 0, 1, 1, 1, 1], degree=3))
            add(Edge.make_bspline(
                [(153.056466, 292.987262), (152.3183, 293.399679), (151.863571, 294.161858), (151.863571, 294.986693)],
                knots=[0, 0, 0, 0, 1, 1, 1, 1], degree=3))
            add(Edge.make_bspline(
                [(151.863571, 294.986693), (151.863571, 295.811528), (152.3183, 296.573706), (153.056466, 296.986124)],
                knots=[0, 0, 0, 0, 1, 1, 1, 1], degree=3))
            add(Edge.make_bspline(
                [(153.056466, 296.986124), (153.794632, 297.398541), (154.704091, 297.398541), (155.442257, 296.986124)],
                knots=[0, 0, 0, 0, 1, 1, 1, 1], degree=3))
            add(Edge.make_bspline(
                [(155.442257, 296.986124), (156.180423, 296.573706), (156.635152, 295.811528), (156.635152, 294.986693)],
                knots=[0, 0, 0, 0, 1, 1, 1, 1], degree=3))
        make_face(mode=Mode.SUBTRACT)
    extrude(amount=BOSS_EXTRUDE1_DEPTH)


solid = part.part
